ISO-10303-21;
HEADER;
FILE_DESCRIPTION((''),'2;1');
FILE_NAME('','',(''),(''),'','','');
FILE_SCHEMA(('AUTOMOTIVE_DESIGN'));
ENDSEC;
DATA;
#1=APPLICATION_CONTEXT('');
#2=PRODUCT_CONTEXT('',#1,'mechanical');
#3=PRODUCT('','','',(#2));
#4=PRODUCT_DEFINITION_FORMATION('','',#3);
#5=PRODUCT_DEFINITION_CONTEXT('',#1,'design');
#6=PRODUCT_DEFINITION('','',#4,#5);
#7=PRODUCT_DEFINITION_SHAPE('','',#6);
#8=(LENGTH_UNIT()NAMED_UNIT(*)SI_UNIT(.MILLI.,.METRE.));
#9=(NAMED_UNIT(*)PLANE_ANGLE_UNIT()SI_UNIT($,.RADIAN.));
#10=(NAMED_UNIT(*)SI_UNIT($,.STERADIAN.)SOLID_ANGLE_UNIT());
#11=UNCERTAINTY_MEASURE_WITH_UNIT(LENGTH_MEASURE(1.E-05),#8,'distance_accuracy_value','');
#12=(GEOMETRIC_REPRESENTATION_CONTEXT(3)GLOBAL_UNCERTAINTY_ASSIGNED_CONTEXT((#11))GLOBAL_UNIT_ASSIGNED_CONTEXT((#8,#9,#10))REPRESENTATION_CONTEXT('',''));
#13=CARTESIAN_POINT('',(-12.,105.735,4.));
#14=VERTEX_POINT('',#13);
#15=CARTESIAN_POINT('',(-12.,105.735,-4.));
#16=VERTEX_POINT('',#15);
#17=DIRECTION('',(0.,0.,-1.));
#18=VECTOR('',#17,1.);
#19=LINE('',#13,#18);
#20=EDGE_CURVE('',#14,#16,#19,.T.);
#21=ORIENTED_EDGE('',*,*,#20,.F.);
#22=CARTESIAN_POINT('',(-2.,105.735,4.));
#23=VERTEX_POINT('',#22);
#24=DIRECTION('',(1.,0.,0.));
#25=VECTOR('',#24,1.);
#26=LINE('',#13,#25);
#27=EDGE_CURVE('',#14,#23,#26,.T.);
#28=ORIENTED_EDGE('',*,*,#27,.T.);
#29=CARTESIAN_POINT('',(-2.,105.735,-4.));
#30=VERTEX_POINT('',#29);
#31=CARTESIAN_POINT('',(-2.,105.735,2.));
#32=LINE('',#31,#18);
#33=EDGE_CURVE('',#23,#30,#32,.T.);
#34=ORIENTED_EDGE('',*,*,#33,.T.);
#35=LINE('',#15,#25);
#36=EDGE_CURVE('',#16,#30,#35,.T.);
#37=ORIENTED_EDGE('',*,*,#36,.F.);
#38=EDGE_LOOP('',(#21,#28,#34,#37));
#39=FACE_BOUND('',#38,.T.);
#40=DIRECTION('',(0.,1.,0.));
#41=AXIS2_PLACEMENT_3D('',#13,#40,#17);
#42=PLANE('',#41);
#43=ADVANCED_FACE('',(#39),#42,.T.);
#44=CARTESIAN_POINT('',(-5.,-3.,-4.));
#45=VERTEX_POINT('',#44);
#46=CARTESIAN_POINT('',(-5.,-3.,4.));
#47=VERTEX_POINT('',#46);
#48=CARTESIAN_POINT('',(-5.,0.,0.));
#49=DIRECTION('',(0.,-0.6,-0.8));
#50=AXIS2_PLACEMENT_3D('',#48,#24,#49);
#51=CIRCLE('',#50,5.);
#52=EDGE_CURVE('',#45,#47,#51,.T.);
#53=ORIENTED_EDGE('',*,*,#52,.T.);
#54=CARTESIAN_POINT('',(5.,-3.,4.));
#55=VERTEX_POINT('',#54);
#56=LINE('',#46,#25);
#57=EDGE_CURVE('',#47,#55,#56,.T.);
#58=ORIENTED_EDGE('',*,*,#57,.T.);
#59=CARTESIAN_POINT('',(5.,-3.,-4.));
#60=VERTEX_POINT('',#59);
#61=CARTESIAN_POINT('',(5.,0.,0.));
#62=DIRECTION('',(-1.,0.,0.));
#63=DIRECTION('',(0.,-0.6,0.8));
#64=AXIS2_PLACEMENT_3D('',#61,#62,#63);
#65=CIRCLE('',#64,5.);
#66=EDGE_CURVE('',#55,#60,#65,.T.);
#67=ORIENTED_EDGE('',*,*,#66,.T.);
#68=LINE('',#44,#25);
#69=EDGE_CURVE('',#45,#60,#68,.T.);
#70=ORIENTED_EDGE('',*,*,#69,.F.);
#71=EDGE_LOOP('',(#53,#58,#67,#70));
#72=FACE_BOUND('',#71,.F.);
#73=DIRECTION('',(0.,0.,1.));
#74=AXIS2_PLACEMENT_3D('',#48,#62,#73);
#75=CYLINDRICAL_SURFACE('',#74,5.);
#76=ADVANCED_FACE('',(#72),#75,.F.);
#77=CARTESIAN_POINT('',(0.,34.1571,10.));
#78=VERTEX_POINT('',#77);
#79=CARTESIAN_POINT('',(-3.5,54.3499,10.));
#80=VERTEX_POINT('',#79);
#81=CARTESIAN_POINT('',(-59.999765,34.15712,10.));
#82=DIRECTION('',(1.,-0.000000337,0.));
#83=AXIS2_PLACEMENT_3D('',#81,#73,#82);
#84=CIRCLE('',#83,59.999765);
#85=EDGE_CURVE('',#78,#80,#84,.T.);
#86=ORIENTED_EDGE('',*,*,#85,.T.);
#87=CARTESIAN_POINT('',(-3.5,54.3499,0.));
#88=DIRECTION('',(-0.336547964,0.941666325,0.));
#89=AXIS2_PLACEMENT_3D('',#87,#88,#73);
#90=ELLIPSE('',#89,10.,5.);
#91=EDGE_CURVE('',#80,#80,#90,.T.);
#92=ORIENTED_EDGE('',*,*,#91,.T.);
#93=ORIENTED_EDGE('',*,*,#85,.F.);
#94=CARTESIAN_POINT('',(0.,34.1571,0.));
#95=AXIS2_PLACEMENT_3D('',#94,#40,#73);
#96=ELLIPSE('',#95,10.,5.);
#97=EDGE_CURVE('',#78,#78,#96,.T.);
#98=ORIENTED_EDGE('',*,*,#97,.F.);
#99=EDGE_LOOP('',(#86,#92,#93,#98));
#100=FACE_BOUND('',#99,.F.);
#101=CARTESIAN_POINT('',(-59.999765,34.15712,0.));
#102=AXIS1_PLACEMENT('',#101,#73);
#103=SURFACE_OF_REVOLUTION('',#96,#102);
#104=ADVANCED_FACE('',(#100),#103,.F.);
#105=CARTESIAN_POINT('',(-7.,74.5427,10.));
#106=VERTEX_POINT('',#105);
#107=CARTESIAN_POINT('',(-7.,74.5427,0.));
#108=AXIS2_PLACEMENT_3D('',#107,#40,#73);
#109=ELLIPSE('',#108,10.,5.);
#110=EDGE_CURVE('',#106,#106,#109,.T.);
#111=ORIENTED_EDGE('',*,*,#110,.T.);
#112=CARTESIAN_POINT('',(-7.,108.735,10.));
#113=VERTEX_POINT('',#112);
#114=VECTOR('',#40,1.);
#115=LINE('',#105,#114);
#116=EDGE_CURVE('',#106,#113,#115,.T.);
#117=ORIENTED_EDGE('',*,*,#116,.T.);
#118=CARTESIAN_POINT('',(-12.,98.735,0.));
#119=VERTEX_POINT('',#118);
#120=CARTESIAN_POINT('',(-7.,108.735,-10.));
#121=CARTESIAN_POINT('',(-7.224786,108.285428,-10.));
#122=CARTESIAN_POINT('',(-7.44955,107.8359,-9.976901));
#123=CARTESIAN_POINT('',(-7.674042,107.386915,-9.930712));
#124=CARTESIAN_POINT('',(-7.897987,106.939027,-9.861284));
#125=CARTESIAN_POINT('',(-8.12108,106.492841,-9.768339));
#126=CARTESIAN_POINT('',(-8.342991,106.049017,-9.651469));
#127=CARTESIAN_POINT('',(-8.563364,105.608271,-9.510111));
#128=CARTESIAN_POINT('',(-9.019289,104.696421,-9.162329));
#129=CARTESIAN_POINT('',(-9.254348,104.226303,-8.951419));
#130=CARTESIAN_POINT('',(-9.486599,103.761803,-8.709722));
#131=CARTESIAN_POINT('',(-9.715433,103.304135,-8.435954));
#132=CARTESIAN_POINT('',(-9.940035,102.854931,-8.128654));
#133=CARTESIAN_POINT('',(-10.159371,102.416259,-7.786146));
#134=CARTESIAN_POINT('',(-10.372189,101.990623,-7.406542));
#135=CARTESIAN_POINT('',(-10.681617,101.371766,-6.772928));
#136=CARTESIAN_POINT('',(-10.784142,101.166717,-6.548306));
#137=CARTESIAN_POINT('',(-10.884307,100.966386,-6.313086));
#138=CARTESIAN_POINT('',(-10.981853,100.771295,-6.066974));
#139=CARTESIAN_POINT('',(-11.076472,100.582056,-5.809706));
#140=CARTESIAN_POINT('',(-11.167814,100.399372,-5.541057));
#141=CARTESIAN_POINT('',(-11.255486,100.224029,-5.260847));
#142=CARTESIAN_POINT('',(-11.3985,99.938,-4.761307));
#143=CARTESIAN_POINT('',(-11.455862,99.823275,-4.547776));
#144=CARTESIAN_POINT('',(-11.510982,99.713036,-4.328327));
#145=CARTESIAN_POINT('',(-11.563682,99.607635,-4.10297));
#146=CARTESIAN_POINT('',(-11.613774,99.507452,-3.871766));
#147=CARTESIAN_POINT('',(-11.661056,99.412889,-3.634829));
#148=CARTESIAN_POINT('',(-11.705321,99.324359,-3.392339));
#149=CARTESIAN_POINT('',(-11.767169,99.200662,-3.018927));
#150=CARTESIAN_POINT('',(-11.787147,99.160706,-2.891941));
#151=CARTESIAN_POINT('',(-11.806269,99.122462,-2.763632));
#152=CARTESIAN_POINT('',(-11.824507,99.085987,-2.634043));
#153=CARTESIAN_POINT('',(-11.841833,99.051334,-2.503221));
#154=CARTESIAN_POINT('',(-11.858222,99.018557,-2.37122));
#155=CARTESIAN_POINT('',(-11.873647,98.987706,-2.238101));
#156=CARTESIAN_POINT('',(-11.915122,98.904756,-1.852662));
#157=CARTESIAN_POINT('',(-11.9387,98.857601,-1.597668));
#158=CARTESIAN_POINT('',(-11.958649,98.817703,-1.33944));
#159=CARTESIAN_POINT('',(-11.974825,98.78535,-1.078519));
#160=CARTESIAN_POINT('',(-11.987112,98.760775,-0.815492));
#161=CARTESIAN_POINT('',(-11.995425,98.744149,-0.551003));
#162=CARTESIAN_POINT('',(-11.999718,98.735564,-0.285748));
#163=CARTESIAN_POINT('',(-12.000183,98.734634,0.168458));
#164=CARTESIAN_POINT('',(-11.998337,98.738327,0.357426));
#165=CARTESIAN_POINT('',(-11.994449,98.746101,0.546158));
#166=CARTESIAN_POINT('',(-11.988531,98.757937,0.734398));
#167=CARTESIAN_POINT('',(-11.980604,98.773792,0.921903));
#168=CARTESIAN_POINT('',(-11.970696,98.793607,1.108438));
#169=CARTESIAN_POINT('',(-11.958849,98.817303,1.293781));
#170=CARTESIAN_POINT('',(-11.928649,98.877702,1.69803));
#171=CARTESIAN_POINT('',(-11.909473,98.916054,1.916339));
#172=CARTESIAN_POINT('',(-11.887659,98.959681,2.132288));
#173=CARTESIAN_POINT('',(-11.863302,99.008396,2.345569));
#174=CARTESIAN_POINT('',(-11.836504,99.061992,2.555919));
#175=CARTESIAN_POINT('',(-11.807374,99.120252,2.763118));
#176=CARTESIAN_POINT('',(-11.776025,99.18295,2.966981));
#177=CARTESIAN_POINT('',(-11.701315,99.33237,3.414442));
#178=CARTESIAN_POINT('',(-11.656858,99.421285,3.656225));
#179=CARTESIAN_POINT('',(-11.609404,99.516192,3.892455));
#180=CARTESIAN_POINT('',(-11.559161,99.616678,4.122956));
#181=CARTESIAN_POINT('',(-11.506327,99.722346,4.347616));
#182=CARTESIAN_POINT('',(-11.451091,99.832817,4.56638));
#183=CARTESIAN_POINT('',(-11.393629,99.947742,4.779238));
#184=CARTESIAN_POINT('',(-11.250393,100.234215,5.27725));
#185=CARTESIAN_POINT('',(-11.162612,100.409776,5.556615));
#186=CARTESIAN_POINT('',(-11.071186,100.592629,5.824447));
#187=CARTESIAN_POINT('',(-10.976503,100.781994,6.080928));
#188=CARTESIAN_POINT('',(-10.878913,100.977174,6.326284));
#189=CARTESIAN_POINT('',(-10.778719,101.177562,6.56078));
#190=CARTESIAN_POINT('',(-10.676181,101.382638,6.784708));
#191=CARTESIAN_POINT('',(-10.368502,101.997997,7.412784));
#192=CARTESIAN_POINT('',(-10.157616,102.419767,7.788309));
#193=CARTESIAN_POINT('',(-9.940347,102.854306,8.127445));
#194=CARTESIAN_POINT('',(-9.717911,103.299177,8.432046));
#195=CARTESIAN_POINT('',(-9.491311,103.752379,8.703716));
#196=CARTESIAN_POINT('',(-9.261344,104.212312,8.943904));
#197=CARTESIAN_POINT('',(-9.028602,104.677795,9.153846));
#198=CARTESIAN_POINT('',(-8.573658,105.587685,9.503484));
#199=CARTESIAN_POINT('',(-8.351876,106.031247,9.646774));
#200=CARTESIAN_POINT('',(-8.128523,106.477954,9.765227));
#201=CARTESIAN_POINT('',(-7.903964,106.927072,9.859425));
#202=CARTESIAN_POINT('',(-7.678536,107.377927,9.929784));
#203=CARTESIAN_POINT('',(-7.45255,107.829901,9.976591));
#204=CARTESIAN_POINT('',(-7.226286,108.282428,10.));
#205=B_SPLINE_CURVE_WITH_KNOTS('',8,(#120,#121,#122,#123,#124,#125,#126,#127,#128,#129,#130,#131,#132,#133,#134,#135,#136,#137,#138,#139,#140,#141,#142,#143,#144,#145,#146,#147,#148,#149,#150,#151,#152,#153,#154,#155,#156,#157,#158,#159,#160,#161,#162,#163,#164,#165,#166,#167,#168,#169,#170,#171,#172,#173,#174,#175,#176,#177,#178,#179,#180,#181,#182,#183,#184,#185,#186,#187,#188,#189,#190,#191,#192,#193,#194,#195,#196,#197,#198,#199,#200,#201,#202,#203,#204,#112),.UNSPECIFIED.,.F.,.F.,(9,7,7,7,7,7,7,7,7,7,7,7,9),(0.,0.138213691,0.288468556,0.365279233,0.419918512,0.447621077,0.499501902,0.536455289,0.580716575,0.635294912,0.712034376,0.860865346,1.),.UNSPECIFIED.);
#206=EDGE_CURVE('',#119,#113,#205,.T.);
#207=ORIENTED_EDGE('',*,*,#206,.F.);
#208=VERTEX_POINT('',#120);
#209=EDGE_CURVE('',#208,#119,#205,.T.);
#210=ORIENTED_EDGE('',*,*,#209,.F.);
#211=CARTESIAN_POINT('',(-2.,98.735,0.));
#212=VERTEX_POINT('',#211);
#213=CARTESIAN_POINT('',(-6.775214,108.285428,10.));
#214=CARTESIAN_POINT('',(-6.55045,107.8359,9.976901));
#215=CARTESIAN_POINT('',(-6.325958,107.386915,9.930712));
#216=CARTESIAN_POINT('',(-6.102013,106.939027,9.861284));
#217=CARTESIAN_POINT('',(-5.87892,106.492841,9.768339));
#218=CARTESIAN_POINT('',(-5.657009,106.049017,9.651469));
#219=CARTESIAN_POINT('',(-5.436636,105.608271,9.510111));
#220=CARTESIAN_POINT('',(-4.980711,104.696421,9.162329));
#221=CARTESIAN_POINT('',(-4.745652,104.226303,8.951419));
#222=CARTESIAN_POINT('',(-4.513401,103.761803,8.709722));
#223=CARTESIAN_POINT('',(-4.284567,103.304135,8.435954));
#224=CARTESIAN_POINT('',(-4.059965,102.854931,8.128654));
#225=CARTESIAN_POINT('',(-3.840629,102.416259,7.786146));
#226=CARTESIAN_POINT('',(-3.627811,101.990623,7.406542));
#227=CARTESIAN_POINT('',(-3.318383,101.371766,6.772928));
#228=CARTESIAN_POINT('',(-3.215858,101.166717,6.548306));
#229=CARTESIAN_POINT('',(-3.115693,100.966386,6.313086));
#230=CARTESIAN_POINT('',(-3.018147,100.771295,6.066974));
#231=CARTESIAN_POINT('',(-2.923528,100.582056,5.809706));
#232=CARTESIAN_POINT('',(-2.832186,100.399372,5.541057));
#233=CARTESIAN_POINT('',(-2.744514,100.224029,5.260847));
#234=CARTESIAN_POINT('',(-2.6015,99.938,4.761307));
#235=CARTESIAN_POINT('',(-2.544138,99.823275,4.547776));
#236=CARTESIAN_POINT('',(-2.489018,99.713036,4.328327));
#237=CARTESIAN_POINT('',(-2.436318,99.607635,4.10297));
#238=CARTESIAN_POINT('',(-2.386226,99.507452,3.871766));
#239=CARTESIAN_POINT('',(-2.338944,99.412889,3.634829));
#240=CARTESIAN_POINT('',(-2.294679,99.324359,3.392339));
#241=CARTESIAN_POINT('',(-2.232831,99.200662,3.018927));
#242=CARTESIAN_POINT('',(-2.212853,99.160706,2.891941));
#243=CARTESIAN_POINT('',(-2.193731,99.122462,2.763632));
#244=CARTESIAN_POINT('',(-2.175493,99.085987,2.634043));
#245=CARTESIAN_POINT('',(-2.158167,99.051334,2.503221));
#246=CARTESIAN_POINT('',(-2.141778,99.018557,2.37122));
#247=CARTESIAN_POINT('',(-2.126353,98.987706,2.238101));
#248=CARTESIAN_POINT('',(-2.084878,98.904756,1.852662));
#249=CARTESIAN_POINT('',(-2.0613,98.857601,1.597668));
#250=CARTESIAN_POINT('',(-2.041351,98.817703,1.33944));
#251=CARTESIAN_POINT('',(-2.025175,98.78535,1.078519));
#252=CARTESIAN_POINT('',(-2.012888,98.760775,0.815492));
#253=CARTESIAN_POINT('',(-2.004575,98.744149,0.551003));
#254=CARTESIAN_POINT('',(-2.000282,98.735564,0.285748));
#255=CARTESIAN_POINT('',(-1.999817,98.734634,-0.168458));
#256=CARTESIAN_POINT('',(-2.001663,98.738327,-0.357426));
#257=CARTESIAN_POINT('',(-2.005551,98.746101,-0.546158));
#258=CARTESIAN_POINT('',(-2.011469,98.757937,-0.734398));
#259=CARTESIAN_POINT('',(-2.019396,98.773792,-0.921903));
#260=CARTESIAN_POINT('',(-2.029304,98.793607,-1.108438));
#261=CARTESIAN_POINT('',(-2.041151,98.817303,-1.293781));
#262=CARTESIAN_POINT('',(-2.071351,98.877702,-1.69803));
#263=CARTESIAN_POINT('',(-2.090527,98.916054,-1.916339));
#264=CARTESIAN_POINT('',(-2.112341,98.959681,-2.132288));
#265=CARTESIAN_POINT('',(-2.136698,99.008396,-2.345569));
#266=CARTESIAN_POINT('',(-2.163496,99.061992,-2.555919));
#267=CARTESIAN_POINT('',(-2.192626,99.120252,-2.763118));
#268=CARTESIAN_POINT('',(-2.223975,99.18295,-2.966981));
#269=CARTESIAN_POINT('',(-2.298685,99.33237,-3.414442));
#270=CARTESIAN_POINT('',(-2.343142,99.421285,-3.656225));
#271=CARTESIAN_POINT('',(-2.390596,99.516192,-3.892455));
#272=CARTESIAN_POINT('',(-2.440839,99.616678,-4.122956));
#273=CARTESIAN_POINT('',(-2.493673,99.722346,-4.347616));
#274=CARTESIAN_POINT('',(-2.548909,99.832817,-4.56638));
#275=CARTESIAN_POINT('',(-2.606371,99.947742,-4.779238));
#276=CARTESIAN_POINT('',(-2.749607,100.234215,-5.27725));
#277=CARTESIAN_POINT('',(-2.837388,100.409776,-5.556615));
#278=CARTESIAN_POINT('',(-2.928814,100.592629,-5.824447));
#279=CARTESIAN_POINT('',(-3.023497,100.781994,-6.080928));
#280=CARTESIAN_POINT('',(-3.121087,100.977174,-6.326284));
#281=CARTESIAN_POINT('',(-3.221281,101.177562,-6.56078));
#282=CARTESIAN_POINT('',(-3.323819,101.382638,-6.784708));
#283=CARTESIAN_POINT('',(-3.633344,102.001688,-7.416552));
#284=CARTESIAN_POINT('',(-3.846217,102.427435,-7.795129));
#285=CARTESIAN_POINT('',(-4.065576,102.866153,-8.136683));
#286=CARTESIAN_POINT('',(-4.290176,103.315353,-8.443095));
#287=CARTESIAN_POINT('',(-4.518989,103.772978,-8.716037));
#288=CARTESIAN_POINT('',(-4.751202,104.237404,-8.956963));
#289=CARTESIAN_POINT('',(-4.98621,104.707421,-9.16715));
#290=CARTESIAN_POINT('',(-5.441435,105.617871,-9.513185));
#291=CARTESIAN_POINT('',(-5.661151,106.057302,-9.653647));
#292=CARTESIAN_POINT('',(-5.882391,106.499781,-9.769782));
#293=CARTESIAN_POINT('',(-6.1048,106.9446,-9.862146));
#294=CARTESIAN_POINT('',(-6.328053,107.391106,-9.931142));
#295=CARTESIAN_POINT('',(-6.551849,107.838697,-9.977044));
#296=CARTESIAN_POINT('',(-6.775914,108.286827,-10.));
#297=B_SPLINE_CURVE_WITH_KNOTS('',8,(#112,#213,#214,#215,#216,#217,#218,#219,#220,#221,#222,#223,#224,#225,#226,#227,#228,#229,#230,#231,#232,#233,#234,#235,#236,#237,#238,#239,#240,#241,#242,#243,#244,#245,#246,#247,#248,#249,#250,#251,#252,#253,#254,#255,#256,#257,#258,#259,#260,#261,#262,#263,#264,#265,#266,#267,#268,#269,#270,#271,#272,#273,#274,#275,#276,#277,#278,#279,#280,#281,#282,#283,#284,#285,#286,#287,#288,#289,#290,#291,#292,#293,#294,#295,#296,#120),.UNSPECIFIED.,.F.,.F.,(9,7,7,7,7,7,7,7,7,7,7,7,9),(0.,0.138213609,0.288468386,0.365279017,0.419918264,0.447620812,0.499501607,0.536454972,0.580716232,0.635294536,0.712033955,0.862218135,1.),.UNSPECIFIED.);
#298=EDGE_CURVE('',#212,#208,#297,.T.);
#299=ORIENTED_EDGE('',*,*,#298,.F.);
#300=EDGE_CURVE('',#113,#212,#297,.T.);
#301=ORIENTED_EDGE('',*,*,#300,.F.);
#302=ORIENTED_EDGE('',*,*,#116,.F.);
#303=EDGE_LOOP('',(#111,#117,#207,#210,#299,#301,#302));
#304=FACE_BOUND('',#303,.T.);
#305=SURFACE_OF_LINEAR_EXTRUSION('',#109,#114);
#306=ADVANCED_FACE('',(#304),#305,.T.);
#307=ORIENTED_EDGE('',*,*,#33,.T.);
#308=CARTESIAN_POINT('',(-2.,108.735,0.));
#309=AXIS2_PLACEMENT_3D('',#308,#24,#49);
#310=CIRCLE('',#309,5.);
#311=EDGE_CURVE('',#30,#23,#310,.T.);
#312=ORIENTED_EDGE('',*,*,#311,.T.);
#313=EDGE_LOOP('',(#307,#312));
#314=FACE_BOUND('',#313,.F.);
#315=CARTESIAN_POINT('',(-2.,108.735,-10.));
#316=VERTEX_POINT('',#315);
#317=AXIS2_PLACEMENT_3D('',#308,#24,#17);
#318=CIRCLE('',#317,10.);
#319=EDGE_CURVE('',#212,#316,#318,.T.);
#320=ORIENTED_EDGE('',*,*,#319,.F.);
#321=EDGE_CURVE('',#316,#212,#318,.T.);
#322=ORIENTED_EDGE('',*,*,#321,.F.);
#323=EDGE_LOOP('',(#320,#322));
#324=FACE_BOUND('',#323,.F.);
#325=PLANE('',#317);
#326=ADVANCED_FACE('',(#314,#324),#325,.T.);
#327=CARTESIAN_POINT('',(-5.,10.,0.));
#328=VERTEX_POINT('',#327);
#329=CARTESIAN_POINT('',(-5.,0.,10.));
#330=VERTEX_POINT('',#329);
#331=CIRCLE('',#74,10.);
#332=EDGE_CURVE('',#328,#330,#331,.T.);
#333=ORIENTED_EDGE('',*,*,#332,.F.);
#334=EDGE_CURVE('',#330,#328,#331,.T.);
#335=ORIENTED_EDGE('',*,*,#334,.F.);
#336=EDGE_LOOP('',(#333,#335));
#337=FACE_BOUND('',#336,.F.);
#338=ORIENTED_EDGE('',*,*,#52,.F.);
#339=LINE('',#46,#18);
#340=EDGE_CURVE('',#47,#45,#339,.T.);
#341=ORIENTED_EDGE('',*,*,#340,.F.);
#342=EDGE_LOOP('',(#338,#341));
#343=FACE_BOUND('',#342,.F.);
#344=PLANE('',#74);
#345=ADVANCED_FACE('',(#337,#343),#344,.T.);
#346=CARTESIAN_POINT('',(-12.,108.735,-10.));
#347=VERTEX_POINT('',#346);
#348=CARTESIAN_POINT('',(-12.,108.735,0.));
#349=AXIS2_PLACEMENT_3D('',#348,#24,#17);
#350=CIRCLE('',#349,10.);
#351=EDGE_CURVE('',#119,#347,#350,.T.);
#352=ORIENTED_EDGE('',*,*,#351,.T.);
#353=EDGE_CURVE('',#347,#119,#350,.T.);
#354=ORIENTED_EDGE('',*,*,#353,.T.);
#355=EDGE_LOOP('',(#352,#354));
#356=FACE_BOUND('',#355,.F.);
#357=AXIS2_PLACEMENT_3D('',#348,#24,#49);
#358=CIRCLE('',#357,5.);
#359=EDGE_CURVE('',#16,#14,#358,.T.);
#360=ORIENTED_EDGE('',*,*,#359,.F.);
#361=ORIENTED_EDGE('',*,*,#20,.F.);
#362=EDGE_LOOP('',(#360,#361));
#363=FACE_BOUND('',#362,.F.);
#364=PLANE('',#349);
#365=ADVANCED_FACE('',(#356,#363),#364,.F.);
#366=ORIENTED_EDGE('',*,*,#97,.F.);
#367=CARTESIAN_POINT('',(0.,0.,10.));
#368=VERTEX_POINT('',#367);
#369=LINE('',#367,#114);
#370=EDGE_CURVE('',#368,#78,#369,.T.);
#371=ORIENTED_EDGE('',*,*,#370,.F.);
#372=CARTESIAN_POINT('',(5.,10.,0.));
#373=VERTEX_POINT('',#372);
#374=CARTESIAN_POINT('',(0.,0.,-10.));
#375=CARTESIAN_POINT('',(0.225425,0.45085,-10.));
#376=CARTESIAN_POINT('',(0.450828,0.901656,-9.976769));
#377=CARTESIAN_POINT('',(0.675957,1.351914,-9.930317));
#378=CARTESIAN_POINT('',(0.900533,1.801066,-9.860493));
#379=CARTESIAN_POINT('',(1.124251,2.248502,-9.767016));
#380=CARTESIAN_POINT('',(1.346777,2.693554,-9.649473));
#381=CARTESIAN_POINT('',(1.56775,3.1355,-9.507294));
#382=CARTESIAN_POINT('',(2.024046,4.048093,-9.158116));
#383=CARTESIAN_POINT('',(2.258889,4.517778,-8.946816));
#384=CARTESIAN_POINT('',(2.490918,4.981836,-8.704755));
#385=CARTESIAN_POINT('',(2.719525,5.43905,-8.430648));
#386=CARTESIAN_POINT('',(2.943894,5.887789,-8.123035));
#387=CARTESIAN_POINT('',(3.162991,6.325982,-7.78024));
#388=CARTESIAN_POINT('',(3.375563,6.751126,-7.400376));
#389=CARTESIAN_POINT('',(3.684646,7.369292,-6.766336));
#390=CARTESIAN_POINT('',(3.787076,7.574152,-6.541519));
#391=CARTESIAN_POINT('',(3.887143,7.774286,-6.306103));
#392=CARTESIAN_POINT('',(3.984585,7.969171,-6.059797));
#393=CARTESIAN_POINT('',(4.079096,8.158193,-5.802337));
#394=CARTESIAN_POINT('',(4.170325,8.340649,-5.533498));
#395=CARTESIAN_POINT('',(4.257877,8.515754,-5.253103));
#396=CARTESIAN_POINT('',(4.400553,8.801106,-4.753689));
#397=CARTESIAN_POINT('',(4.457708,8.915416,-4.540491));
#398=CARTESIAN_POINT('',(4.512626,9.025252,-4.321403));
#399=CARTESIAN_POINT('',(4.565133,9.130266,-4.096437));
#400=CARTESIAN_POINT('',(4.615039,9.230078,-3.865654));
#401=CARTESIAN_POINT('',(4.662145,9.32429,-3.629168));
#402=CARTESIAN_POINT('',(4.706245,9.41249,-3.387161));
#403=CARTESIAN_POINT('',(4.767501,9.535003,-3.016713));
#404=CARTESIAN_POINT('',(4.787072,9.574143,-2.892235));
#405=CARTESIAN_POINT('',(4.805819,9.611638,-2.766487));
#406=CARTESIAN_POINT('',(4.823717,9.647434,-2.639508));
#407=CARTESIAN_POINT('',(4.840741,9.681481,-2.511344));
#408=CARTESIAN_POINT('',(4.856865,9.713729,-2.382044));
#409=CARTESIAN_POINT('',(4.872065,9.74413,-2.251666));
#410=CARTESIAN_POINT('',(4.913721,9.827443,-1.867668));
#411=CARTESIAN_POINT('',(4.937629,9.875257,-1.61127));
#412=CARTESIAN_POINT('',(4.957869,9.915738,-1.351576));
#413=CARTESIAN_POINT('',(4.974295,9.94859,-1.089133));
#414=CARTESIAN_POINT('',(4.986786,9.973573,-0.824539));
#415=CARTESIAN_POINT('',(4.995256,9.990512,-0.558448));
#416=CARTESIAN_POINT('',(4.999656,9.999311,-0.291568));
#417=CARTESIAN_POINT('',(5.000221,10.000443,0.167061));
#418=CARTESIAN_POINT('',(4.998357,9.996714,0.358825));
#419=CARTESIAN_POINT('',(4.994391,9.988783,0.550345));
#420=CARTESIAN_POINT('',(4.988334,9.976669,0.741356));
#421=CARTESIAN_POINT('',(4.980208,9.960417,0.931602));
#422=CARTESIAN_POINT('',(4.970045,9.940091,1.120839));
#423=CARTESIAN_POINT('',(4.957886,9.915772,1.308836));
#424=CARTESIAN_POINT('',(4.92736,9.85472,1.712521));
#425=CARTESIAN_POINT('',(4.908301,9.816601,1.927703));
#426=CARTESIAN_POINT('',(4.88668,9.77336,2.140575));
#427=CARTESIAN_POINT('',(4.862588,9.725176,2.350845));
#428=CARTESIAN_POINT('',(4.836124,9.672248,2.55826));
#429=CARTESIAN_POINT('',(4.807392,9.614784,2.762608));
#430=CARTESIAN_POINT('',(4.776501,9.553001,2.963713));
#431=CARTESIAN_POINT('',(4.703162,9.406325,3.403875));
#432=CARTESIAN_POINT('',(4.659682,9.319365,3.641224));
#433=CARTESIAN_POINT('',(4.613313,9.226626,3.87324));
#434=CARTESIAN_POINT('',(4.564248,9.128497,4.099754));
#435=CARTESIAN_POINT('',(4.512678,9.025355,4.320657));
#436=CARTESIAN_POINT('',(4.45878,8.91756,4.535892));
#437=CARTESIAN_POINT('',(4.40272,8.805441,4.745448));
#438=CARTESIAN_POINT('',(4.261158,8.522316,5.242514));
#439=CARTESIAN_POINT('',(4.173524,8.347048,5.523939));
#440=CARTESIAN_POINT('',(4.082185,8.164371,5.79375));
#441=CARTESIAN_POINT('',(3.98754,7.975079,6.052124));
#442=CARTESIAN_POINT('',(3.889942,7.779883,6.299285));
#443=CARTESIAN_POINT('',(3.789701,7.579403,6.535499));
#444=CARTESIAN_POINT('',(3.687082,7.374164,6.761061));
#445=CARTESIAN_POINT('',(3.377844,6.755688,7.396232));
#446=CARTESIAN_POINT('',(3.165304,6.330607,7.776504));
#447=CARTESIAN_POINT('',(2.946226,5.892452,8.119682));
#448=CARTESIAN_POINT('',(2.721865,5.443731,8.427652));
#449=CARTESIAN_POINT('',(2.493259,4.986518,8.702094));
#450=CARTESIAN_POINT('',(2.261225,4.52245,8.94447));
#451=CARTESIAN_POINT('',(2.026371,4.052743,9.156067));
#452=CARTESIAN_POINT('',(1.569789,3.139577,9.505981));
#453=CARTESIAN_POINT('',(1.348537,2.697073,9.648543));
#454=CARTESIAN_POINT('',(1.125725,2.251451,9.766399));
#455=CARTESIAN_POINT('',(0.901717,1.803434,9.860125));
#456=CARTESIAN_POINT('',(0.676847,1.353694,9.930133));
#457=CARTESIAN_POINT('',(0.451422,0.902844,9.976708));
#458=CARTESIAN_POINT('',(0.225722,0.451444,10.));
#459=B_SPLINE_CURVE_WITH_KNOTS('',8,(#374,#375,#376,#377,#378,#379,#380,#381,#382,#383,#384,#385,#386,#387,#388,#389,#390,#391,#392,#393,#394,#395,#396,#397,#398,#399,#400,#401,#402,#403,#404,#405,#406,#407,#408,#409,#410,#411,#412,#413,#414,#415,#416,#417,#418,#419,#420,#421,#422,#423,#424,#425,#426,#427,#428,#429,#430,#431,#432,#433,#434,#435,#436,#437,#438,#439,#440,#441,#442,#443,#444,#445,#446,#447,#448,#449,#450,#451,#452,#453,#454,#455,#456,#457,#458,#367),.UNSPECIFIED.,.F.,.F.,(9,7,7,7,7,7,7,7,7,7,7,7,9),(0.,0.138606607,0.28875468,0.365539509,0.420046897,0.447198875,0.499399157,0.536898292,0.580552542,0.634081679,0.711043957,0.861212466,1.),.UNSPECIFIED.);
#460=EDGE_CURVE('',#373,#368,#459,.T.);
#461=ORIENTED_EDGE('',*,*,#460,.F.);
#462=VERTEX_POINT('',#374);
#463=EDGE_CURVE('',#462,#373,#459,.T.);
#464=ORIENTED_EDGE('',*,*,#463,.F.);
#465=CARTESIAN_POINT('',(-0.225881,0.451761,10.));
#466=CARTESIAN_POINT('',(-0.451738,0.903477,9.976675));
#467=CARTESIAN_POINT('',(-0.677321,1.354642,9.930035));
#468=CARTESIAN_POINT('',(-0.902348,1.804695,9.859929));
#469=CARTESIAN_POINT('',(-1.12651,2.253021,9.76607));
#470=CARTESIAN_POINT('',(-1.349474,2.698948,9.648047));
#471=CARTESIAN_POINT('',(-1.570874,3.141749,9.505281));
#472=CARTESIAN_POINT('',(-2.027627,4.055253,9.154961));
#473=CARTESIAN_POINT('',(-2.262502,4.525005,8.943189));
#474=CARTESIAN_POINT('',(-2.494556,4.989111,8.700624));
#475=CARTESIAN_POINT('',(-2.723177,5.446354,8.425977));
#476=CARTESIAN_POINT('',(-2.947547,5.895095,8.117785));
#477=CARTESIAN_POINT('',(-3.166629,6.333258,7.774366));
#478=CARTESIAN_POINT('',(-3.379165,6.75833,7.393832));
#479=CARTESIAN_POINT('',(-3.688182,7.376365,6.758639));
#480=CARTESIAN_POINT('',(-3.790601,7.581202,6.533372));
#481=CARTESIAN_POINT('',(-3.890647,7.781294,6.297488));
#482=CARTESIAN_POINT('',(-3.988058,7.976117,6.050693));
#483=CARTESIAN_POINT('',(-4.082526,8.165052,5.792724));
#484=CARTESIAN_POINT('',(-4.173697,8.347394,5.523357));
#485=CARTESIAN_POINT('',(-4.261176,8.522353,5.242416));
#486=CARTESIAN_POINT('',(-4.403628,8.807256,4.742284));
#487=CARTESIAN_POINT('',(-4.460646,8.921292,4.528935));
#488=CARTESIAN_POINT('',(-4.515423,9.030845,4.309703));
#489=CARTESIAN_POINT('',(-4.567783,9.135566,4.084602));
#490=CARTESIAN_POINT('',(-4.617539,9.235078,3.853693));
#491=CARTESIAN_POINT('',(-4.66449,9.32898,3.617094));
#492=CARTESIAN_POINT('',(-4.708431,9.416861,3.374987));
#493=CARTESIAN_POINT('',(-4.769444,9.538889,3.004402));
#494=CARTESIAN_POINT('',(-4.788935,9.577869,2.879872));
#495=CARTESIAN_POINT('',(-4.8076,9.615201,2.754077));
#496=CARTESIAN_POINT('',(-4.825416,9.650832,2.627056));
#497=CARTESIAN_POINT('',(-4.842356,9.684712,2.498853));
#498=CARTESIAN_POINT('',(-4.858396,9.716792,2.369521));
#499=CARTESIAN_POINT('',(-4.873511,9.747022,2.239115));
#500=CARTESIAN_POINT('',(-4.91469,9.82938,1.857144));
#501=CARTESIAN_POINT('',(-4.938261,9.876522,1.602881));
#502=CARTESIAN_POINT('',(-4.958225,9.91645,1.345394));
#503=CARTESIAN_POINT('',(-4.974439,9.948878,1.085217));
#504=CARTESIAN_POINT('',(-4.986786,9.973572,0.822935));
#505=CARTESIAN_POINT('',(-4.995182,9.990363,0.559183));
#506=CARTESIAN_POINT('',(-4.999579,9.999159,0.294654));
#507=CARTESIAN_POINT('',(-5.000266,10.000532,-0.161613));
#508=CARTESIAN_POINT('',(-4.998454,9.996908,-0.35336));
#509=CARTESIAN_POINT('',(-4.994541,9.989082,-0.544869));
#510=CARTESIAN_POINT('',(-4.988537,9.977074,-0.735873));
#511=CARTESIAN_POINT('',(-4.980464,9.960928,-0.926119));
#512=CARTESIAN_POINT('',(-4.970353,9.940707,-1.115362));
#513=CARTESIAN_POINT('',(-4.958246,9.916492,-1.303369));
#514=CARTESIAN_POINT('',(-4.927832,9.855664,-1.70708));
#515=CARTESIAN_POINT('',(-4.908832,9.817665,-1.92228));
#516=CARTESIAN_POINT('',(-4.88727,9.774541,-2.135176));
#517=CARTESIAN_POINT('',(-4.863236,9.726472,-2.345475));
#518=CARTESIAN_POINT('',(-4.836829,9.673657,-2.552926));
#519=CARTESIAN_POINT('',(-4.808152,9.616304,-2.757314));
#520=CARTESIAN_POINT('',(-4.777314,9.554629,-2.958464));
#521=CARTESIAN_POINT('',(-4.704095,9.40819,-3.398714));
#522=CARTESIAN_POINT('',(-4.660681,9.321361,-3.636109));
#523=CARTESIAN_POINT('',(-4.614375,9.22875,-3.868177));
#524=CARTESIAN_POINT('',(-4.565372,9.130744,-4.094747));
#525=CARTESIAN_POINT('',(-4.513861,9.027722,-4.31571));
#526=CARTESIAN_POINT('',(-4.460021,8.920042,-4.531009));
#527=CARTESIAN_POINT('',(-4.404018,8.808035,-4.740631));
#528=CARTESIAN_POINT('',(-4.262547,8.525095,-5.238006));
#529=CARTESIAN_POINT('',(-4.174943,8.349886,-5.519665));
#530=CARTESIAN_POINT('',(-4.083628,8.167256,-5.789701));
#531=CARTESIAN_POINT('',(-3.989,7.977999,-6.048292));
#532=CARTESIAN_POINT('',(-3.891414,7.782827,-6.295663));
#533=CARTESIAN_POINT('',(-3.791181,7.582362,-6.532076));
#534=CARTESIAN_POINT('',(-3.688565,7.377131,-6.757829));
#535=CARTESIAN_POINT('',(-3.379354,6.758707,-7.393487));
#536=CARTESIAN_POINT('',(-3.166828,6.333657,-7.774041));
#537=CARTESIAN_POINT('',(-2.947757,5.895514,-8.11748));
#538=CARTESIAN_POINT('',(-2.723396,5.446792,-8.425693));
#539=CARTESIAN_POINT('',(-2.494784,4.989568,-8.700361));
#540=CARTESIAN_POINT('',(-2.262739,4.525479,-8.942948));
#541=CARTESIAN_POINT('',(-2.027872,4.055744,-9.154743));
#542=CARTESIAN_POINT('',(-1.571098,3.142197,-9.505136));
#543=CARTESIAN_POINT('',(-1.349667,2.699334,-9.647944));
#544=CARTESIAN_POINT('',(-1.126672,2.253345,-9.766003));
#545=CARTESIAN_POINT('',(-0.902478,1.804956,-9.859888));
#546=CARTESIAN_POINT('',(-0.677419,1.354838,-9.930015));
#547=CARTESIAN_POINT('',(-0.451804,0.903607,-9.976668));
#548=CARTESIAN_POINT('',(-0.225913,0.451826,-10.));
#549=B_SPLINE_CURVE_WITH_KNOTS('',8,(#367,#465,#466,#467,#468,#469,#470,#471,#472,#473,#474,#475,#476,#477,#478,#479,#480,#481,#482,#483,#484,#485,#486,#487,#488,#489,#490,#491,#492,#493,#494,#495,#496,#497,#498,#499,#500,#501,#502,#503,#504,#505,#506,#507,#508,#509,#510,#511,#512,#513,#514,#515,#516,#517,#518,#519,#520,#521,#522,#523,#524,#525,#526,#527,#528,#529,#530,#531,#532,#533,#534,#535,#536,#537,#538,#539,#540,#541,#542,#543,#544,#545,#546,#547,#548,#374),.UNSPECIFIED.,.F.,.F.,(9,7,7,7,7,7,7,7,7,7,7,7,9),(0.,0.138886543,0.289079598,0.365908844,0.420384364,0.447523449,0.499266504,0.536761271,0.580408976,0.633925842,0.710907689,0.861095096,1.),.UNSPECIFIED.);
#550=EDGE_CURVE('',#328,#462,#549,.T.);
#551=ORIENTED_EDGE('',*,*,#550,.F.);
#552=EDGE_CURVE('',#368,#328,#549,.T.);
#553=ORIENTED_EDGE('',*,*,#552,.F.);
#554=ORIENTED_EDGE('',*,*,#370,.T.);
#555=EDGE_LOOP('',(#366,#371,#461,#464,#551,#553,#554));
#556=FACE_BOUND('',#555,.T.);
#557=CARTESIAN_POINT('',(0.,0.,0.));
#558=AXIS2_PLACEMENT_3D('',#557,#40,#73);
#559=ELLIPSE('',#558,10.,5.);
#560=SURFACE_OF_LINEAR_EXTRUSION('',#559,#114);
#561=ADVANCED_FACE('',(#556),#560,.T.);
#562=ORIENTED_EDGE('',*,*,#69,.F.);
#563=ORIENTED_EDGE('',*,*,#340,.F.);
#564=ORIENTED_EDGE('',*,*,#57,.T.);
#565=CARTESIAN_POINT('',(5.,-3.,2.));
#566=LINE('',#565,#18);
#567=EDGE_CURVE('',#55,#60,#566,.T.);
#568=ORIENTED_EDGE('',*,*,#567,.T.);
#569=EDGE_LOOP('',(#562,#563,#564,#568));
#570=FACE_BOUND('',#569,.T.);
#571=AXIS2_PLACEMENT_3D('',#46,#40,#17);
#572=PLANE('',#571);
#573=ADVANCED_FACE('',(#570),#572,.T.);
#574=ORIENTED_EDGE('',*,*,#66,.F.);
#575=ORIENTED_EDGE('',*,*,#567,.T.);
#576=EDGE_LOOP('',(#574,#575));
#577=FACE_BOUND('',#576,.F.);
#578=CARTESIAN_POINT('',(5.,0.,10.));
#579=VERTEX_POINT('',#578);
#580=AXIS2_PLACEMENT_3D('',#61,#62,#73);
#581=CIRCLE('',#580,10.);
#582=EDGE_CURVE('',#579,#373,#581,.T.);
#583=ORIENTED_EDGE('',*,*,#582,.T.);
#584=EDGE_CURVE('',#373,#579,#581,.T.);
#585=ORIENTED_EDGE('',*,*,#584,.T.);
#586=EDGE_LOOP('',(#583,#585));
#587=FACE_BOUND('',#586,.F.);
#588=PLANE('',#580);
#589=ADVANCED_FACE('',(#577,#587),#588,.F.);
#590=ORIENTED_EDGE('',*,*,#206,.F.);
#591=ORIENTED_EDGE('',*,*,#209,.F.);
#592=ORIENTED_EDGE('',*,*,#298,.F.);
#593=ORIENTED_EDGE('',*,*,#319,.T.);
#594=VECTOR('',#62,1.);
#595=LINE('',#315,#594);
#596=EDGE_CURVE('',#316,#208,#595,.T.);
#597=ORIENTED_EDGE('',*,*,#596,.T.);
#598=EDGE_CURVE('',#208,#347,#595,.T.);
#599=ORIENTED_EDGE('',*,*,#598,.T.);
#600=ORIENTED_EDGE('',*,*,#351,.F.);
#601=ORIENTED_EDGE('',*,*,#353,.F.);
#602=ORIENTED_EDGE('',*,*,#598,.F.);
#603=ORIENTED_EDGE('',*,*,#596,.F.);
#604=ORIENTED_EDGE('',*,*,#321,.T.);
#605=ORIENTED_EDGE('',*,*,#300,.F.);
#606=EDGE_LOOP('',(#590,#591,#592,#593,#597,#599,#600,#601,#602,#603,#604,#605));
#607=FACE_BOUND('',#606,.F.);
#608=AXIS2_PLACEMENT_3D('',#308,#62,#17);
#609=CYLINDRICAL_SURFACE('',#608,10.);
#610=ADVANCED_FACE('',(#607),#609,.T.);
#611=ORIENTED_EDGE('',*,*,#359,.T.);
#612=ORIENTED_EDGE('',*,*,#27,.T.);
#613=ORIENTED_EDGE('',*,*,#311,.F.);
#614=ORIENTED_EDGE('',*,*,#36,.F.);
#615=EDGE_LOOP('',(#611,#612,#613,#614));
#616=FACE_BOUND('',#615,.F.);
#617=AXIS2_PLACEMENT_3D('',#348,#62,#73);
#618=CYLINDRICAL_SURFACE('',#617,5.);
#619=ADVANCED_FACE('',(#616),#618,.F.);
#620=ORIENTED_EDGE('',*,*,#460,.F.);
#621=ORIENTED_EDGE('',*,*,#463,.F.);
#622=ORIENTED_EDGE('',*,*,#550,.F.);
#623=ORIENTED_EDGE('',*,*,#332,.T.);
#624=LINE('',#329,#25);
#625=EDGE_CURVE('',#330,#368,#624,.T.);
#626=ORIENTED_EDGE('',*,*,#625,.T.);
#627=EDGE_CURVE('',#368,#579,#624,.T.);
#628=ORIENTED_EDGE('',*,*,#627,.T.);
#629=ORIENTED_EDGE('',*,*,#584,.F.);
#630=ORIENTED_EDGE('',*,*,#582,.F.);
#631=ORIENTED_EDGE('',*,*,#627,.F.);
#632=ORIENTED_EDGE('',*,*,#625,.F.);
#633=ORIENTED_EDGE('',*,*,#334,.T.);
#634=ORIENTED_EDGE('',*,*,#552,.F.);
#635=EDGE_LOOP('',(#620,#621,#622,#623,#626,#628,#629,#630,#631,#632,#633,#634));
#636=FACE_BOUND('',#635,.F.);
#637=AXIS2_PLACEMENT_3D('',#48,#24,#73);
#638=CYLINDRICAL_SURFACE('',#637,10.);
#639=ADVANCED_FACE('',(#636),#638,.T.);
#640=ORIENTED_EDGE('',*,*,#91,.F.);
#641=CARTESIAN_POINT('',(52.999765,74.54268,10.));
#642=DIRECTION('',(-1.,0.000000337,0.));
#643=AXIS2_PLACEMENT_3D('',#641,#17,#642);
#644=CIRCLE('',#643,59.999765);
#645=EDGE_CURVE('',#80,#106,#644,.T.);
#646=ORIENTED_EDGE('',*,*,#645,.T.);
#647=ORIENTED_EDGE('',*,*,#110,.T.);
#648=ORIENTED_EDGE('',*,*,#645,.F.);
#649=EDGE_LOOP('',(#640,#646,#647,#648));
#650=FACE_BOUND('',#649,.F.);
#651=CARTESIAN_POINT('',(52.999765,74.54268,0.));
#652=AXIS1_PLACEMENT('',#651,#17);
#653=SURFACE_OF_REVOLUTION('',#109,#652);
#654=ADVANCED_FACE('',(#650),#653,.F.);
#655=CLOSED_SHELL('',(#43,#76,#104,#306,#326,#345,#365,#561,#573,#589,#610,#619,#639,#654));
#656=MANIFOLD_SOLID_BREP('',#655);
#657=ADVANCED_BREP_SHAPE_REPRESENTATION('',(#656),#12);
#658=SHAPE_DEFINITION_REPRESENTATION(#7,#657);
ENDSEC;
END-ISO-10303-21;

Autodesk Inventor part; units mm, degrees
ref_plane "YZ Plane" through (0, 0, 0) normal (1, 0, 0) x (0, 1, 0)
sketch "Эскиз6" plane through (0, 0, 0) normal (0, 0, 1) x (1, 0, 0)
  line L0 (0, 0) -> (0, 34.1571)
  line L1 (-7, 74.5427) -> (-7, 108.735)
  arc A0 (-7, 74.5427) -> (-3.5, 54.3499) centre (53, 74.5427) ccw
  arc A1 (0, 34.1571) -> (-3.5, 54.3499) centre (-60, 34.1571) ccw
  point P0 (0, 45)
  point P1 (-7, 63.735)
  dimension "d20" = 45
  dimension "d22" = 45
  dimension "d23" = 7
  dimension "d24" = 60
ref_plane "РабПлоскость5" through (0, 0, 0) normal (0, 1, 0) x (-1, 0, 0)
sketch "Эскиз12" plane through (0, 0, 0) normal (0, 1, 0) x (-1, 0, 0)
  ellipse E0 centre (0, 0) end of major axis (5, 0) minor radius 10
  dimension "d35" = 5
  dimension "d36" = 10
ref_plane "РабПлоскость6" through (-7, 108.735, 0) normal (0, 1, 0) x (-1, 0, 0)
sketch "Эскиз13" plane through (-7, 108.735, 0) normal (0, 1, 0) x (-1, 0, 0)
  ellipse E0 centre (0, 0) end of major axis (5, 0) minor radius 10
  point P0 (-7, 0)
  dimension "d37" = 5
  dimension "d38" = 10
sweep "Сдвиг1" add profiles "Эскиз12" path "Эскиз6"
ref_plane "РабПлоскость8" through (0, 0, 0) normal (0, -1, 0) x (1, 0, 0)
sketch "Эскиз16" plane through (0, 0, 0) normal (0, -1, 0) x (1, 0, 0)
  line L0 (-5, 10) -> (5, 10)
  line L1 (5, 10) -> (5, 0)
  line L2 (5, 0) -> (-5, 0)
  line L3 (-5, 0) -> (-5, 10)
  line L4 (-5, 10) -> (-5, 0)
  point P0 (0, 0)
  dimension "d46" = 10
  dimension "d47" = 10
  dimension "d54" = 5
  dimension "d55" = 10
revolve "Вращение2" add sketch "Эскиз16" angle 360 about axis through (5, 0, 0) along (-1, 0, 0)
ref_plane "РабПлоскость9" through (-5, 0, 10) normal (0, 0, 1) x (1, 0, 0)
sketch "Эскиз17" plane through (-5, 0, 10) normal (0, 0, 1) x (1, 0, 0)
  circle A0 centre (5, 0) radius 5
  line L0 (2, -4) -> (2, 4)
  dimension "d50" = 10
  dimension "d51" = 3
extrude "Выдавливание1" [suppressed]
sketch "Эскиз18" plane through (-5, 0, 0) normal (-1, 0, 0) x (0, 0, 1)
  circle A0 centre (0, 0) radius 5
  line L0 (4, -3) -> (-4, -3)
  dimension "d56" = 10
  dimension "d57" = 3
extrude "Выдавливание2" cut sketch "Эскиз18" against normal through all contours A0 L0 picked at (1.1374, 0.1102)
sketch "Эскиз19" plane through (-7, 108.735, 0) normal (0, 1, 0) x (1, 0, 0)
  line L0 (-1.2083, 0) -> (-5, 0) projected
  line L1 (-5, 0) -> (5, 0)
  line L2 (5, 0) -> (5, 10)
  line L3 (5, 10) -> (-5, 10)
  line L4 (-5, 10) -> (-5, 0)
  point P0 (7, 0)
  dimension "d60" = 10
  dimension "d61" = 10
revolve "Вращение3" add sketch "Эскиз19" angle 360 about axis through (-12, 108.735, 0) along (1, 0, 0)
sketch "Эскиз20" plane through (-12, 108.735, 0) normal (-1, 0, 0) x (0, 0, 1)
  circle A0 centre (0, 0) radius 5
  line L0 (4, -3) -> (-4, -3)
  point P0 (0, -108.735)
  dimension "d63" = 10
extrude "Выдавливание3" cut sketch "Эскиз20" against normal blind 50 contours A0 L0 picked at (1.1374, 0.1102)
properties part number "Рукоядь"
